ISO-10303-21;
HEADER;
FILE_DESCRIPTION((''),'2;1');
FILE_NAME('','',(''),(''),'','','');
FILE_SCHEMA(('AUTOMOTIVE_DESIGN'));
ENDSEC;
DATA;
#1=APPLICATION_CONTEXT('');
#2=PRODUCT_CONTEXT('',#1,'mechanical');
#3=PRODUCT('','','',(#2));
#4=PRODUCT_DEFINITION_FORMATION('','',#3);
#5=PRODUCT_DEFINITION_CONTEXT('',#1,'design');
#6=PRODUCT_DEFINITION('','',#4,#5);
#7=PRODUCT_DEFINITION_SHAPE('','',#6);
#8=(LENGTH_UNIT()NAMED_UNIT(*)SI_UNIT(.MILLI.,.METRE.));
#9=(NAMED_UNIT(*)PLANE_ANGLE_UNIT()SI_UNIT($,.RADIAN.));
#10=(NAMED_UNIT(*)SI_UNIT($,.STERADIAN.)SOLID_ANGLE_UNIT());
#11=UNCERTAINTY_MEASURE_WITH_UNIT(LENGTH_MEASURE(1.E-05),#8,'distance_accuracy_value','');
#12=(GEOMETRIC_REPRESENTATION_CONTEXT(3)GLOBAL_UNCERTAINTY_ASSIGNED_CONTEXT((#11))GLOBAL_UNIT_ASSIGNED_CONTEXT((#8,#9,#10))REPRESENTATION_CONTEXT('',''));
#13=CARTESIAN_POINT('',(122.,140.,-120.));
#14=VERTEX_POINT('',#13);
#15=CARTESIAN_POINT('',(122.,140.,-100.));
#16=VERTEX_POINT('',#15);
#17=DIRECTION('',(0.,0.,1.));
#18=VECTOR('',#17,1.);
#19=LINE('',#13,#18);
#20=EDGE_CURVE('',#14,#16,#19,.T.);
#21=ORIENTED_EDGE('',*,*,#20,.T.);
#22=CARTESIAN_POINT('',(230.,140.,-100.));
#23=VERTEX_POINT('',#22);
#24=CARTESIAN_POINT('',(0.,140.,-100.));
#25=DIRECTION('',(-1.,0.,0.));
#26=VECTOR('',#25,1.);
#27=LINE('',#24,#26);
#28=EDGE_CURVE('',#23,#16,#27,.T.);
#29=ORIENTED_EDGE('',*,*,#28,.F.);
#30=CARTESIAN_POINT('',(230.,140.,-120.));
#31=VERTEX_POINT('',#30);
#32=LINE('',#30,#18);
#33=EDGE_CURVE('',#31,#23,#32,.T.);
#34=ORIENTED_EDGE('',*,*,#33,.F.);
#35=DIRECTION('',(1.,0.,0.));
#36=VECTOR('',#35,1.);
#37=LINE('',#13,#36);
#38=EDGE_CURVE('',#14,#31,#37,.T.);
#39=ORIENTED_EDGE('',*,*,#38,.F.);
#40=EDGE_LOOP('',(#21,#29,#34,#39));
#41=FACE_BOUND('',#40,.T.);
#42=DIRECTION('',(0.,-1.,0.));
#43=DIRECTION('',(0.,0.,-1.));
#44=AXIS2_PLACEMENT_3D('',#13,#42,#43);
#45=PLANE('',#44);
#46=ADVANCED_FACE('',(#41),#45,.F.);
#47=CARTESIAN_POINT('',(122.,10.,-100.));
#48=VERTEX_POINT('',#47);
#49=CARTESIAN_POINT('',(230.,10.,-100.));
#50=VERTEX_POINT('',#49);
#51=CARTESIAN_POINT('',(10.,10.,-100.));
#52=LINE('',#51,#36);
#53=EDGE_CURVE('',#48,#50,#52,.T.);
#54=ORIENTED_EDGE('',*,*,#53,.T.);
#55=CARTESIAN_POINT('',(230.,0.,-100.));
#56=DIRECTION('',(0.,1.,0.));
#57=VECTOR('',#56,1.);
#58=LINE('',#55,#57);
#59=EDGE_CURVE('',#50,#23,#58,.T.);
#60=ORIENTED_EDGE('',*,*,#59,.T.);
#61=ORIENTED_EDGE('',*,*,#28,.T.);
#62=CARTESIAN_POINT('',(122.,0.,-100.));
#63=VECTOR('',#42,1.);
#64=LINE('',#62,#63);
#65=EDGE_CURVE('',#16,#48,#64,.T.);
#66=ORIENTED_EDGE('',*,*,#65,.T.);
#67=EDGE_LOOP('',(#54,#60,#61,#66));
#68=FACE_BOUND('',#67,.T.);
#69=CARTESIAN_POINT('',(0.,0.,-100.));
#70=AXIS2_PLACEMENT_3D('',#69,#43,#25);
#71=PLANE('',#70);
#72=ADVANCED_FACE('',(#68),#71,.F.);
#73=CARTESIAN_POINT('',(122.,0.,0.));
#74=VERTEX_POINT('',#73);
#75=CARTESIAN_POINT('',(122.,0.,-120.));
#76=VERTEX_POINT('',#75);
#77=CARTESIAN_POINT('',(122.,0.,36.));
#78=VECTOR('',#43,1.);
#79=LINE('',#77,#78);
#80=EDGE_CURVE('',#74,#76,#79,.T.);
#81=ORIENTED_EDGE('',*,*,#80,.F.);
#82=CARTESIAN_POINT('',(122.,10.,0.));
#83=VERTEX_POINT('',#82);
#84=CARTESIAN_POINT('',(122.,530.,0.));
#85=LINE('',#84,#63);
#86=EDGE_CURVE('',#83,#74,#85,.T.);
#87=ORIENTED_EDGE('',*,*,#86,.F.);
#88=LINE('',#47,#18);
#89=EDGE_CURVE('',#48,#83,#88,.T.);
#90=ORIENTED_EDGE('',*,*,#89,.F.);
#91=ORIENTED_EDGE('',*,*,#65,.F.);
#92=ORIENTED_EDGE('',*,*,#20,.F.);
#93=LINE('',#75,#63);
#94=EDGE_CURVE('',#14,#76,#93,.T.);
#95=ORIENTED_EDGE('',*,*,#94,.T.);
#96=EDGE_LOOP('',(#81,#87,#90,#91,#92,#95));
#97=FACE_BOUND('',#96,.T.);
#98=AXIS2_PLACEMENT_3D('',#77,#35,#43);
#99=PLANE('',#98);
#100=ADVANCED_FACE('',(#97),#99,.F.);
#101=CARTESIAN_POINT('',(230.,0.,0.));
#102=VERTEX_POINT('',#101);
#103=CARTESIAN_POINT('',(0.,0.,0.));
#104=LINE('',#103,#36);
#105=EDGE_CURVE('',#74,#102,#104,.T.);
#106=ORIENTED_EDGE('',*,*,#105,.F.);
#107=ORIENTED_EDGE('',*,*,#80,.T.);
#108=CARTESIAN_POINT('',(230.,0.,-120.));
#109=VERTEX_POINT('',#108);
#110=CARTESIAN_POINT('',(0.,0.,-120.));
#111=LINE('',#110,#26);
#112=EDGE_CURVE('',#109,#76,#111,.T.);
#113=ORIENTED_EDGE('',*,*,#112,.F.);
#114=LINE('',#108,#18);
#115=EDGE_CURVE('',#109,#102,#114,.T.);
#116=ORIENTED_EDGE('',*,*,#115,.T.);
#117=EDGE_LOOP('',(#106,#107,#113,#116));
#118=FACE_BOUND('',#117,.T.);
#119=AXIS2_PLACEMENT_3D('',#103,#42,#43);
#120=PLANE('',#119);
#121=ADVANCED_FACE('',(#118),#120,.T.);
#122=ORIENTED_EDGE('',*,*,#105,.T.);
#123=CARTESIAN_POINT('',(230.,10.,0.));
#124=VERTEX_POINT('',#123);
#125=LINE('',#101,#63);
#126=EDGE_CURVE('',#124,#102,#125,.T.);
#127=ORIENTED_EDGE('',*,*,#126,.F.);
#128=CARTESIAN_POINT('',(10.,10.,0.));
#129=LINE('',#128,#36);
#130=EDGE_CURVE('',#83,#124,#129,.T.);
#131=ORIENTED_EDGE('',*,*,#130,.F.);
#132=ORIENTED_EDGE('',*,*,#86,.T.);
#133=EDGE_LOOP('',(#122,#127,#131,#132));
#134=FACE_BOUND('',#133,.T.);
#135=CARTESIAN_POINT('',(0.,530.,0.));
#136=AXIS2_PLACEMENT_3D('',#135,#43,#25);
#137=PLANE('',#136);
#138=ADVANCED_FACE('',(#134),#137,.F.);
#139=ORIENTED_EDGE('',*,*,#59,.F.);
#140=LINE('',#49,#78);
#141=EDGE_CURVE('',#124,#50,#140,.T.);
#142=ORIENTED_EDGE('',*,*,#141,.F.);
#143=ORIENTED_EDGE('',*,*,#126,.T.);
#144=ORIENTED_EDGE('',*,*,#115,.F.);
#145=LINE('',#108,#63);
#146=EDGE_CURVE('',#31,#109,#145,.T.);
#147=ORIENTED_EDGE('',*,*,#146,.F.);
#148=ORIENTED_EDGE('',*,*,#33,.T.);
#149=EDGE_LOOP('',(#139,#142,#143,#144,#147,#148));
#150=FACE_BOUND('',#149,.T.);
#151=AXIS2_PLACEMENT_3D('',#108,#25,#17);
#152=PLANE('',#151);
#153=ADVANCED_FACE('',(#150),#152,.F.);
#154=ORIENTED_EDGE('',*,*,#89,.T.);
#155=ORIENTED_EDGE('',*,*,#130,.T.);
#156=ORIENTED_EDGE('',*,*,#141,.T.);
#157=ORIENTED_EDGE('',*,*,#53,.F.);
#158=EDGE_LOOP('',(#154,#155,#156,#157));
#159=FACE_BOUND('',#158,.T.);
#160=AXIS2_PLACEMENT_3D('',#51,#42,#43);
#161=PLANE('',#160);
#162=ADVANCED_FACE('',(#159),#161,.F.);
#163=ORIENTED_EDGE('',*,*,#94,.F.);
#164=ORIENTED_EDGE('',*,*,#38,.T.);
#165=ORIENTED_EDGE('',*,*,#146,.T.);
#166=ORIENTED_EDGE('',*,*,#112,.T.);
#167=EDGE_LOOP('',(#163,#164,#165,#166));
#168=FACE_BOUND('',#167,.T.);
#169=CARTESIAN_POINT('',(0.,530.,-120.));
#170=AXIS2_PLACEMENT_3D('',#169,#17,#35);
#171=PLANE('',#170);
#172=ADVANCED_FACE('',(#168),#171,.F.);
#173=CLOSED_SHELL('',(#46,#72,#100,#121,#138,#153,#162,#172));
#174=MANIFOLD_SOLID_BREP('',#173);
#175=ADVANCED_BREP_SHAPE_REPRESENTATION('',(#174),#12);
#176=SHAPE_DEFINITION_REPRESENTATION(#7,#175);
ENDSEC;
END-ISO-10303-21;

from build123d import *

# Parameters (mm, degrees)
SKETCH1_W                      = 670
SKETCH1_H                      = 120
BOSS_EXTRUDE1_DEPTH            = 530
SKETCH2_W                      = 100
SKETCH2_H                      = 200
SKETCH2_W_2                    = 650
SKETCH2_H_2                    = 250
CUT_EXTRUDE1_DEPTH             = 100
SKETCH3_R                      = 50
CUT_EXTRUDE2_DEPTH             = 260
F_12_0_12_DIAMETER_HOLE2_D     = 12
F_12_0_12_DIAMETER_HOLE2_DEPTH = 30
F_12_0_12_DIAMETER_HOLE2_TIP   = 3.605163714
SKETCH8_W                      = 650
SKETCH8_H                      = 50
BOSS_EXTRUDE2_DEPTH            = 5
SKETCH9_W                      = 10
SKETCH9_H                      = 250
CUT_EXTRUDE3_DEPTH             = 717
CUT_EXTRUDE4_DEPTH             = 5
SKETCH11_W                     = 10
SKETCH11_H                     = 100
BOSS_EXTRUDE3_DEPTH            = 78
BOSS_EXTRUDE3_2_DEPTH          = 78
BOSS_EXTRUDE3_3_DEPTH          = 78
SKETCH12_W                     = 20
SKETCH12_H                     = 30
CUT_EXTRUDE5_DEPTH             = 80
SKETCH15_W                     = 30
SKETCH15_H                     = 23.536156656
SKETCH15_H_2                   = 28.986603691
CUT_EXTRUDE7_DEPTH             = 35
SHELL1_T                       = -3
SKETCH16_W                     = 14
SKETCH16_H                     = 14
CUT_EXTRUDE8_DEPTH             = 35
SKETCH17_W                     = 5.729882812
SKETCH17_H                     = 17.428393554
SKETCH17_W_2                   = 13.369726562
SKETCH17_H_2                   = 3.342431641
BOSS_EXTRUDE4_DEPTH            = 5
CUT_EXTRUDE10_DEPTH            = 863.670273187
CUT_EXTRUDE10_DEPTH_BACK       = 863.670273187
SKETCH18_W                     = 670
SKETCH18_H                     = 250
CUT_EXTRUDE12_DEPTH            = 734.007503372
CUT_EXTRUDE12_DEPTH_BACK       = 734.007503372
SKETCH19_W                     = 440
SKETCH19_H                     = 280
SKETCH20_W                     = 210.918945895
SKETCH20_H                     = 296.400973443
CUT_EXTRUDE14_DEPTH            = 156
CUT_EXTRUDE15_DEPTH            = 376.898922584
CUT_EXTRUDE15_DEPTH_BACK       = 376.898922584
SKETCH21_W                     = 108
SKETCH21_H                     = 140


with BuildPart() as part:
    # Sketch1 → Boss-Extrude1 (new body)
    with BuildSketch(Plane(origin=(0, 0, 0), x_dir=(1, 0, 0), z_dir=(0, 1, 0))):
        with Locations((335, 60)):
            Rectangle(SKETCH1_W, SKETCH1_H)
    extrude(amount=BOSS_EXTRUDE1_DEPTH)

    # Sketch2 → Cut-Extrude1 (cut)
    with BuildSketch(Plane.XY):
        with Locations((60, 380)):
            Rectangle(SKETCH2_W, SKETCH2_H)
        with Locations((170, 380)):
            Rectangle(SKETCH2_W, SKETCH2_H)
        with Locations((280, 380)):
            Rectangle(SKETCH2_W, SKETCH2_H)
        with Locations((390, 380)):
            Rectangle(SKETCH2_W, SKETCH2_H)
        with Locations((500, 380)):
            Rectangle(SKETCH2_W, SKETCH2_H)
        with Locations((610, 380)):
            Rectangle(SKETCH2_W, SKETCH2_H)
        with Locations((335, 135)):
            Rectangle(SKETCH2_W_2, SKETCH2_H_2)
    extrude(amount=-CUT_EXTRUDE1_DEPTH, mode=Mode.SUBTRACT)

    # Sketch3 → Cut-Extrude2 (cut)
    with BuildSketch(Plane(origin=(0, 530, 0), x_dir=(1, 0, 0), z_dir=(0, 1, 0))):
        with Locations(Location((60, 60, 0), (0, 0, 270))):
            Circle(SKETCH3_R)
        with Locations(Location((170, 60, 0), (0, 0, 270))):
            Circle(SKETCH3_R)
        with Locations(Location((280, 60, 0), (0, 0, 270))):
            Circle(SKETCH3_R)
        with Locations(Location((390, 60, 0), (0, 0, 270))):
            Circle(SKETCH3_R)
        with Locations(Location((500, 60, 0), (0, 0, 270))):
            Circle(SKETCH3_R)
        with Locations(Location((610, 60, 0), (0, 0, 270))):
            Circle(SKETCH3_R)
    extrude(amount=-CUT_EXTRUDE2_DEPTH, mode=Mode.SUBTRACT)

    # Ø12.0 (12) Diameter Hole2
    with Locations(Plane(origin=(59.704642413, 270, -102.411697903), x_dir=(0, 0, 1), z_dir=(0, 1, 0))):
        with Locations((0, 0), (-0.195888006, 111.8520513), (0.014838595, 221.167624818), (-0.341843303, 331.364008353), (0.657723149, 441.008646429), (1.288998006, 549.811854685)):
            Hole(F_12_0_12_DIAMETER_HOLE2_D / 2, depth=F_12_0_12_DIAMETER_HOLE2_DEPTH)
            with Locations((0, 0, -(F_12_0_12_DIAMETER_HOLE2_DEPTH + F_12_0_12_DIAMETER_HOLE2_TIP / 2))):  # 118° drill point
                Cone(0, F_12_0_12_DIAMETER_HOLE2_D / 2, F_12_0_12_DIAMETER_HOLE2_TIP, mode=Mode.SUBTRACT)

    # Sketch8 → Boss-Extrude2 (add)
    with BuildSketch(Plane.XY):
        with Locations((335, 305)):
            Rectangle(SKETCH8_W, SKETCH8_H)
    extrude(amount=-BOSS_EXTRUDE2_DEPTH)

    # Sketch9 → Cut-Extrude3 (cut)
    with BuildSketch(Plane(origin=(670, 0, 0), x_dir=(0, 0, -1), z_dir=(1, 0, 0))):
        with Locations((15, 135)):
            Rectangle(SKETCH9_W, SKETCH9_H)
    extrude(amount=-CUT_EXTRUDE3_DEPTH, mode=Mode.SUBTRACT)

    # Sketch10 → Cut-Extrude4 (cut)
    with BuildSketch(Plane(origin=(0, 10, 0), x_dir=(1, 0, 0), z_dir=(0, 1, 0))):
        Polygon((365, 61.943560596), (350, 87.924322709), (320, 87.924322709), (305, 61.943560596), (320, 35.962798482), (350, 35.962798482), align=None)
    extrude(amount=-CUT_EXTRUDE4_DEPTH, mode=Mode.SUBTRACT)

    # Sketch12 → Cut-Extrude5 (cut)
    with BuildSketch(Plane.XY.offset(-100)):
        with Locations((85.198613037, 245)):
            Rectangle(SKETCH12_W, SKETCH12_H)
        with Locations((195.198613037, 245)):
            Rectangle(SKETCH12_W, SKETCH12_H)
        with Locations((305.198613037, 245)):
            Rectangle(SKETCH12_W, SKETCH12_H)
        with Locations((415.198613037, 245)):
            Rectangle(SKETCH12_W, SKETCH12_H)
        with Locations((525.198613037, 245)):
            Rectangle(SKETCH12_W, SKETCH12_H)
        with Locations((635.198613037, 245)):
            Rectangle(SKETCH12_W, SKETCH12_H)
    extrude(amount=-CUT_EXTRUDE5_DEPTH, mode=Mode.SUBTRACT)

    # Sketch17 → Boss-Extrude4 (add)
    # profile 1 of 9: a face of its own
    with BuildSketch(Plane.XY):
        with BuildLine():
            Line((527.508830928, 289.835452458), (527.508830928, 307.263846012))
            Line((527.508830928, 307.263846012), (534.861434459, 307.263846012))
            add(Edge.make_bspline(
                [(534.861434459, 307.263846012), (535.181337774, 307.258256848), (535.803061116, 307.24739446), (536.703508491, 307.139069344), (537.544992916, 306.975202489), (538.325061607, 306.737496792), (539.040841948, 306.426020155), (539.698044515, 306.051894954), (540.290333057, 305.605079277), (540.822348212, 305.090232636), (541.284521701, 304.502523111), (541.692171296, 303.852565801), (542.030284458, 303.129762281), (542.309377095, 302.341316546), (542.5243908, 301.484161689), (542.679660381, 300.560045938), (542.773357357, 299.567500804), (542.783368073, 298.883107022), (542.788518428, 298.530997273)],
                knots=[0, 0, 0, 0, 1.135059408, 2.20595691, 3.214417064, 4.174978569, 5.094187092, 5.980001006, 6.853065862, 7.720814779, 8.600404634, 9.50058483, 10.438414914, 11.426825708, 12.465239141, 13.571113463, 14.750376389, 16, 16, 16, 16], degree=3))
            add(Edge.make_bspline(
                [(542.788518428, 298.530997273), (542.781740751, 298.180151665), (542.768592871, 297.499553336), (542.676885992, 296.511518461), (542.516733301, 295.591080531), (542.296748778, 294.736450427), (542.003051046, 293.953120444), (541.654236167, 293.233205539), (541.233025793, 292.585291498), (540.753136904, 292.000029304), (540.204772188, 291.484681411), (539.587651059, 291.044279297), (538.910779309, 290.668464036), (538.169670382, 290.361903209), (537.364073889, 290.124869172), (536.495133477, 289.954199984), (535.562644449, 289.853487388), (534.920131033, 289.841584621), (534.58911581, 289.835452458)],
                knots=[0, 0, 0, 0, 1.228418252, 2.382983832, 3.470276728, 4.496757894, 5.468023682, 6.394867725, 7.292157164, 8.167372942, 9.039072913, 9.918728341, 10.815246345, 11.744296628, 12.720973084, 13.750736166, 14.841206188, 16, 16, 16, 16], degree=3))
            Line((534.58911581, 289.835452458), (527.508830928, 289.835452458))
        make_face()
        with BuildLine():
            Line((533.238713741, 291.745413395), (534.048208904, 291.745413395))
            add(Edge.make_bspline(
                [(534.048208904, 291.745413395), (534.172894012, 291.749291978), (534.413033311, 291.756761998), (534.758676231, 291.825976613), (535.075745017, 291.938271137), (535.365749176, 292.094802589), (535.623404602, 292.300450923), (535.848862806, 292.551404902), (536.04776914, 292.844737637), (536.217685755, 293.190205032), (536.364284647, 293.596533622), (536.481764702, 294.076367921), (536.592118304, 294.630928744), (536.673672739, 295.265507643), (536.740044562, 295.978448886), (536.788346679, 296.768428292), (536.812018936, 297.636801208), (536.817188964, 298.241258393), (536.819890499, 298.55711002)],
                knots=[0, 0, 0, 0, 0.728710832, 1.403472396, 2.052289494, 2.690292559, 3.321919393, 3.970736491, 4.656696891, 5.388631723, 6.217040872, 7.17856157, 8.275589967, 9.523440737, 10.918935818, 12.463926104, 14.152268318, 16, 16, 16, 16], degree=3))
            add(Edge.make_bspline(
                [(536.819890499, 298.55711002), (536.8171426, 298.871715251), (536.811863063, 299.476166083), (536.7886758, 300.343334385), (536.739579947, 301.133216935), (536.674703848, 301.843934916), (536.589660404, 302.476324031), (536.488366458, 303.031681737), (536.362441588, 303.507627045), (536.222158727, 303.914921549), (536.050140993, 304.256514038), (535.858357073, 304.554097881), (535.62547107, 304.79746827), (535.36991257, 305.004888479), (535.079348843, 305.160875844), (534.761320266, 305.273944358), (534.414185903, 305.34216807), (534.172870641, 305.349893944), (534.048208904, 305.353885075)],
                knots=[0, 0, 0, 0, 1.842836665, 3.540640921, 5.080358154, 6.47765669, 7.719902824, 8.816971715, 9.781579111, 10.601733135, 11.334613876, 12.017393917, 12.666641099, 13.29908421, 13.937911793, 14.587567384, 15.270347425, 16, 16, 16, 16], degree=3))
            Line((534.048208904, 305.353885075), (533.238713741, 305.353885075))
            Line((533.238713741, 305.353885075), (533.238713741, 291.745413395))
        make_face(mode=Mode.SUBTRACT)
    # profile 2 of 9: a face of its own
    with BuildSketch(Plane.XY):
        with Locations((547.563420772, 298.549649235)):
            Rectangle(SKETCH17_W, SKETCH17_H)
    # profile 3 of 9: a face of its own
    with BuildSketch(Plane.XY):
        Polygon((564.514324092, 307.263846012), (564.514324092, 305.115139958), (558.545696163, 305.115139958), (558.545696163, 299.862747379), (563.559343624, 299.862747379), (563.559343624, 297.714041325), (558.545696163, 297.714041325), (558.545696163, 289.835452458), (552.81581335, 289.835452458), (552.81581335, 307.263846012), align=None)
    # profile 4 of 9: a face of its own
    with BuildSketch(Plane.XY):
        Polygon((577.645305538, 307.263846012), (577.645305538, 305.115139958), (571.676677608, 305.115139958), (571.676677608, 299.862747379), (576.690325069, 299.862747379), (576.690325069, 297.714041325), (571.676677608, 297.714041325), (571.676677608, 289.835452458), (565.946794795, 289.835452458), (565.946794795, 307.263846012), align=None)
    # profile 5 of 9: a face of its own
    with BuildSketch(Plane.XY):
        with Locations((584.330168819, 287.448001286)):
            Rectangle(SKETCH17_W_2, SKETCH17_H_2)
    # profile 6 of 9: a face of its own
    with BuildSketch(Plane.XY):
        with BuildLine():
            Line((605.578484249, 307.263846012), (605.578484249, 295.602639195))
            add(Edge.make_bspline(
                [(605.578484249, 295.602639195), (605.574209777, 295.35989389), (605.565919345, 294.889083964), (605.480877158, 294.20653885), (605.349958188, 293.569747554), (605.15926554, 292.978838165), (604.911867049, 292.436847071), (604.616163877, 291.936663973), (604.260702644, 291.487723021), (603.847299908, 291.08966617), (603.386881991, 290.731670113), (602.867295001, 290.425440037), (602.293741958, 290.168488385), (601.66690529, 289.960990771), (600.988052682, 289.797299786), (600.254912883, 289.679078851), (599.467035781, 289.60781007), (598.923618241, 289.60048219), (598.643684673, 289.59670734)],
                knots=[0, 0, 0, 0, 1.108173197, 2.149326602, 3.136215123, 4.073726706, 4.978516626, 5.852185058, 6.72141202, 7.584905625, 8.467554395, 9.379216169, 10.332422268, 11.332766067, 12.390653242, 13.518530507, 14.721707419, 16, 16, 16, 16], degree=3))
            add(Edge.make_bspline(
                [(598.643684673, 289.59670734), (598.373688491, 289.600411437), (597.851346557, 289.607577482), (597.093280473, 289.679448684), (596.387523889, 289.797736542), (595.733050135, 289.960122315), (595.130189942, 290.169220301), (594.579048171, 290.42623041), (594.078350789, 290.732835498), (593.633858028, 291.090104794), (593.234289459, 291.486851767), (592.899913678, 291.940746827), (592.609043638, 292.435866034), (592.375223767, 292.980322997), (592.191754821, 293.570441519), (592.063541006, 294.20666921), (591.983676196, 294.889343196), (591.974661767, 295.359932437), (591.970012569, 295.602639195)],
                knots=[0, 0, 0, 0, 1.258901956, 2.435505865, 3.547148904, 4.59359074, 5.576649289, 6.5183682, 7.424469602, 8.307507093, 9.172751023, 10.042627298, 10.928839176, 11.845659241, 12.799442865, 13.80597989, 14.868432463, 16, 16, 16, 16], degree=3))
            Line((591.970012569, 295.602639195), (591.970012569, 307.263846012))
            Line((591.970012569, 307.263846012), (597.699895381, 307.263846012))
            Line((597.699895381, 307.263846012), (597.699895381, 295.457153889))
            add(Edge.make_bspline(
                [(597.699895381, 295.457153889), (597.700816195, 295.287996189), (597.702584578, 294.963135903), (597.729908723, 294.499051493), (597.768241004, 294.079064133), (597.828226169, 293.705517832), (597.90066041, 293.377063412), (597.989882091, 293.09281535), (598.094998068, 292.852496478), (598.225239063, 292.654232043), (598.380826623, 292.495135011), (598.55368342, 292.353231761), (598.757556996, 292.238543846), (598.987648905, 292.146224908), (599.243380948, 292.070549638), (599.526120553, 292.020376099), (599.83553351, 291.990763905), (600.049971942, 291.986424568), (600.161954402, 291.984158512)],
                knots=[0, 0, 0, 0, 1.622370975, 3.115695595, 4.458049099, 5.666011203, 6.742434742, 7.681714947, 8.519814998, 9.250928664, 9.942747364, 10.646898194, 11.389596108, 12.175933929, 13.021386247, 13.943159715, 14.925891993, 16, 16, 16, 16], degree=3))
            add(Edge.make_bspline(
                [(600.161954402, 291.984158512), (600.283927219, 291.987190593), (600.521124756, 291.993087005), (600.86597014, 292.03390861), (601.187714881, 292.103380086), (601.484890424, 292.205377303), (601.758665297, 292.332852529), (602.012761516, 292.484567923), (602.236391413, 292.674631152), (602.439076761, 292.888441291), (602.620738276, 293.128529789), (602.771757722, 293.399928575), (602.905501548, 293.697121508), (603.005823683, 294.025060118), (603.089837826, 294.379999499), (603.146989706, 294.763086929), (603.186210275, 295.174074524), (603.189394751, 295.457053988), (603.191033077, 295.602639195)],
                knots=[0, 0, 0, 0, 1.083870311, 2.107775948, 3.08105344, 4.003637981, 4.893545291, 5.761570557, 6.624657808, 7.49233129, 8.376387281, 9.291996285, 10.246843261, 11.267344133, 12.334180325, 13.486053461, 14.706643157, 16, 16, 16, 16], degree=3))
            Line((603.191033077, 295.602639195), (603.191033077, 307.263846012))
            Line((603.191033077, 307.263846012), (605.578484249, 307.263846012))
        make_face()
    # profile 7 of 9: a face of its own
    with BuildSketch(Plane.XY):
        with BuildLine():
            Line((619.731593227, 302.015183827), (616.739818477, 301.526502415))
            add(Edge.make_bspline(
                [(616.739818477, 301.526502415), (616.748849224, 301.670726223), (616.765660669, 301.939210177), (616.78429066, 302.312269209), (616.796668381, 302.625642376), (616.798628236, 302.814722915), (616.799504756, 302.899286839)],
                knots=[0, 0, 0, 0, 1.261802504, 2.348944521, 3.261585937, 4, 4, 4, 4], degree=3))
            add(Edge.make_bspline(
                [(616.799504756, 302.899286839), (616.798306068, 303.007660677), (616.795968139, 303.219033721), (616.750451916, 303.523894877), (616.694806916, 303.811547356), (616.604352699, 304.076787391), (616.488181329, 304.320314265), (616.348943917, 304.543955606), (616.184187178, 304.745078709), (615.995833421, 304.928129987), (615.778009957, 305.083200131), (615.536269472, 305.218702836), (615.269765326, 305.333844758), (614.978065514, 305.431346685), (614.660683072, 305.504624438), (614.319025281, 305.556776695), (613.952471696, 305.585673441), (613.699597795, 305.590260771), (613.568984889, 305.592630192)],
                knots=[0, 0, 0, 0, 1.079280541, 2.105035848, 3.067950317, 3.99715044, 4.889989748, 5.753421302, 6.617030865, 7.476358039, 8.364190572, 9.274590025, 10.235106994, 11.254473582, 12.337095886, 13.478601727, 14.697662529, 16, 16, 16, 16], degree=3))
            add(Edge.make_bspline(
                [(613.568984889, 305.592630192), (613.391954632, 305.58912286), (613.059112606, 305.582528579), (612.595688488, 305.495339748), (612.198743126, 305.361419257), (611.87165349, 305.163811893), (611.613188167, 304.909795747), (611.433841092, 304.593316589), (611.323009072, 304.224665915), (611.313400221, 303.959558324), (611.308367061, 303.820693775)],
                knots=[0, 0, 0, 0, 1.294917039, 2.43462794, 3.440028966, 4.347597256, 5.210608309, 6.06356377, 6.985685997, 8, 8, 8, 8], degree=3))
            add(Edge.make_bspline(
                [(611.308367061, 303.820693775), (611.317562032, 303.705133219), (611.336106628, 303.472068433), (611.47315858, 303.132808312), (611.695999602, 302.811560885), (612.009295906, 302.510664216), (612.404107796, 302.221967273), (612.884407504, 301.948533431), (613.450813789, 301.688189695), (613.862519081, 301.536023727), (614.080048656, 301.455624958)],
                knots=[0, 0, 0, 0, 0.716839541, 1.445735977, 2.240793036, 3.131329288, 4.131129903, 5.273471266, 6.559404876, 8, 8, 8, 8], degree=3))
            add(Edge.make_bspline(
                [(614.080048656, 301.455624958), (614.335934702, 301.364918412), (614.834564244, 301.188164095), (615.547657928, 300.88707802), (616.213068388, 300.5749594), (616.829579094, 300.246613346), (617.397833174, 299.90520698), (617.914851624, 299.544556457), (618.386199073, 299.173962102), (618.807001026, 298.783874588), (619.177995113, 298.378100064), (619.4958685, 297.952745357), (619.771807525, 297.51723103), (619.991113975, 297.061458502), (620.169645242, 296.594624218), (620.292698657, 296.11024444), (620.364288243, 295.609761088), (620.37516617, 295.270864226), (620.380681514, 295.099036213)],
                knots=[0, 0, 0, 0, 1.359488612, 2.649152603, 3.874964776, 5.039588756, 6.146130126, 7.193090393, 8.194917302, 9.146793662, 10.063845301, 10.944476293, 11.803344532, 12.641736646, 13.473440096, 14.302714936, 15.139439897, 16, 16, 16, 16], degree=3))
            add(Edge.make_bspline(
                [(620.380681514, 295.099036213), (620.374476075, 294.902306495), (620.362285176, 294.515820995), (620.280160209, 293.948630617), (620.138011896, 293.409496554), (619.938489338, 292.895972278), (619.681049879, 292.411946655), (619.366518754, 291.954381076), (618.996510229, 291.525099427), (618.5710008, 291.128381035), (618.102222518, 290.765302239), (617.587803957, 290.450854345), (617.034458515, 290.187092261), (616.444107988, 289.968993032), (615.81453624, 289.801373099), (615.145337453, 289.685291013), (614.438790193, 289.606619894), (613.954683001, 289.600062276), (613.70700941, 289.59670734)],
                knots=[0, 0, 0, 0, 0.972121714, 1.909782367, 2.824924061, 3.721832975, 4.62620438, 5.527836938, 6.46026819, 7.421000932, 8.398101015, 9.385579713, 10.394244048, 11.422703992, 12.491421888, 13.608778581, 14.776629625, 16, 16, 16, 16], degree=3))
            add(Edge.make_bspline(
                [(613.70700941, 289.59670734), (613.445745367, 289.599650312), (612.939893069, 289.605348413), (612.207608113, 289.66709241), (611.525297432, 289.760984454), (610.893395078, 289.899706116), (610.309273131, 290.072394336), (609.776099392, 290.288320955), (609.295310255, 290.547303481), (608.863217672, 290.843007892), (608.478306623, 291.175775461), (608.148120946, 291.551766865), (607.86942369, 291.967163224), (607.639947144, 292.421521488), (607.466477665, 292.917583541), (607.339164663, 293.449829748), (607.264537999, 294.021332449), (607.254747521, 294.414908557), (607.249700069, 294.617815586)],
                knots=[0, 0, 0, 0, 1.342201143, 2.598733168, 3.773451092, 4.878874364, 5.91991243, 6.900006476, 7.829142054, 8.72062616, 9.585588575, 10.436728592, 11.283829734, 12.149664931, 13.044964919, 13.977937424, 14.957531465, 16, 16, 16, 16], degree=3))
            add(Edge.make_bspline(
                [(607.249700069, 294.617815586), (607.250803815, 294.692425759), (607.253213998, 294.855347393), (607.260452266, 295.122772538), (607.275636683, 295.433682216), (607.29037174, 295.656130545), (607.298195171, 295.774237248)],
                knots=[0, 0, 0, 0, 0.773500207, 1.689044709, 2.77302154, 4, 4, 4, 4], degree=3))
            Line((607.298195171, 295.774237248), (610.36457777, 296.337526509))
            add(Edge.make_bspline(
                [(610.36457777, 296.337526509), (610.326952988, 296.136337493), (610.255606535, 295.754830366), (610.178678473, 295.21219969), (610.124206629, 294.733311493), (610.11767002, 294.435147371), (610.114641475, 294.297001835)],
                knots=[0, 0, 0, 0, 1.192988372, 2.262218769, 3.194850416, 4, 4, 4, 4], degree=3))
            add(Edge.make_bspline(
                [(610.114641475, 294.297001835), (610.116191817, 294.183708768), (610.119182568, 293.965156219), (610.159053378, 293.648552813), (610.215988606, 293.352999663), (610.302906772, 293.079707227), (610.411206928, 292.826307836), (610.544682453, 292.59538211), (610.704385489, 292.386485019), (610.887496571, 292.200099922), (611.094689168, 292.033628705), (611.327456494, 291.892756696), (611.58347653, 291.771733922), (611.864681562, 291.677479524), (612.167961721, 291.596080628), (612.497219749, 291.548235723), (612.849461228, 291.512043782), (613.092629543, 291.508500084), (613.218327999, 291.506668278)],
                knots=[0, 0, 0, 0, 1.135776692, 2.191015738, 3.19649269, 4.151244236, 5.061952528, 5.956281389, 6.819534407, 7.692823504, 8.571441916, 9.478554956, 10.416037156, 11.406231466, 12.450054172, 13.561596327, 14.739541482, 16, 16, 16, 16], degree=3))
            add(Edge.make_bspline(
                [(613.218327999, 291.506668278), (613.423996012, 291.510791273), (613.810619321, 291.518541853), (614.349272542, 291.616708407), (614.810575885, 291.768742445), (615.189785268, 291.991387532), (615.490778961, 292.278756613), (615.698005174, 292.637320004), (615.824813318, 293.05638326), (615.837728413, 293.355975238), (615.844524288, 293.513619419)],
                knots=[0, 0, 0, 0, 1.308765556, 2.460272085, 3.475015317, 4.388076298, 5.239673503, 6.095681635, 6.997954785, 8, 8, 8, 8], degree=3))
            add(Edge.make_bspline(
                [(615.844524288, 293.513619419), (615.833808824, 293.638242951), (615.811807312, 293.894126055), (615.644884004, 294.264515838), (615.382382362, 294.620631473), (615.016807277, 294.962984909), (614.551376589, 295.293471235), (613.986957743, 295.616730224), (613.322148235, 295.933112033), (612.83677959, 296.119639164), (612.580430889, 296.21815395)],
                knots=[0, 0, 0, 0, 0.667930748, 1.371427933, 2.146459016, 3.034714139, 4.04893387, 5.207327294, 6.525042705, 8, 8, 8, 8], degree=3))
            add(Edge.make_bspline(
                [(612.580430889, 296.21815395), (612.374354345, 296.29679374), (611.970646869, 296.450850434), (611.394079385, 296.713586304), (610.853066711, 296.987016804), (610.357486361, 297.288235735), (609.896382561, 297.599610528), (609.477036946, 297.932256792), (609.09841673, 298.284556341), (608.758710772, 298.653375077), (608.457302107, 299.038989264), (608.199448649, 299.444659231), (607.977533299, 299.866789834), (607.798609588, 300.308107488), (607.65975715, 300.767821241), (607.559616231, 301.244439392), (607.497905054, 301.739995674), (607.491630423, 302.075933546), (607.488445186, 302.246468159)],
                knots=[0, 0, 0, 0, 1.249558333, 2.447906163, 3.58867143, 4.682264114, 5.731748367, 6.739728761, 7.711906036, 8.659384707, 9.578321416, 10.481344598, 11.379544271, 12.277135726, 13.175418307, 14.097160112, 15.034047388, 16, 16, 16, 16], degree=3))
            add(Edge.make_bspline(
                [(607.488445186, 302.246468159), (607.49282555, 302.439538736), (607.501402184, 302.817565692), (607.587451154, 303.36980586), (607.719291893, 303.894921371), (607.910558542, 304.389343064), (608.156192894, 304.852853762), (608.453187669, 305.288766511), (608.804241719, 305.697593471), (609.213503754, 306.066686531), (609.657214714, 306.407618241), (610.14376173, 306.697651931), (610.658716537, 306.950861947), (611.210636666, 307.148827868), (611.791820619, 307.313252612), (612.408080529, 307.421140415), (613.056315391, 307.490701612), (613.499160755, 307.498567824), (613.725661373, 307.502591129)],
                knots=[0, 0, 0, 0, 1.01033566, 1.978209831, 2.919499157, 3.840961976, 4.746855014, 5.660740114, 6.597989116, 7.56120833, 8.541877795, 9.523498025, 10.522416858, 11.542172371, 12.589598349, 13.681636521, 14.814234488, 16, 16, 16, 16], degree=3))
            add(Edge.make_bspline(
                [(613.725661373, 307.502591129), (613.968269855, 307.498219033), (614.438190994, 307.489750488), (615.120391152, 307.426787419), (615.755073228, 307.319142339), (616.345153155, 307.171557286), (616.887304575, 306.977590666), (617.384933999, 306.742393454), (617.834452216, 306.46201507), (618.236961315, 306.139451502), (618.593086714, 305.773322851), (618.897467704, 305.361641069), (619.158701245, 304.909408454), (619.366684143, 304.412232174), (619.529870326, 303.873247147), (619.649133834, 303.29158184), (619.720420497, 302.667301443), (619.72779778, 302.236712324), (619.731593227, 302.015183827)],
                knots=[0, 0, 0, 0, 1.248314423, 2.417925914, 3.521398822, 4.558068205, 5.543720209, 6.479599284, 7.385061127, 8.263440163, 9.127722873, 10.00561236, 10.891325273, 11.808802823, 12.772251995, 13.784947978, 14.860405143, 16, 16, 16, 16], degree=3))
        make_face()
    # profile 8 of 9: a face of its own
    with BuildSketch(Plane.XY):
        Polygon((633.989153194, 307.263846012), (633.989153194, 305.115139958), (628.020525264, 305.115139958), (628.020525264, 300.340237614), (633.034172725, 300.340237614), (633.034172725, 298.191531559), (628.020525264, 298.191531559), (628.020525264, 291.984158512), (634.944133663, 291.984158512), (634.944133663, 289.835452458), (622.290642452, 289.835452458), (622.290642452, 307.263846012), align=None)
    # profile 9 of 9: a face of its own
    with BuildSketch(Plane.XY):
        with BuildLine():
            Line((636.376604366, 289.835452458), (636.376604366, 307.263846012))
            Line((636.376604366, 307.263846012), (643.990335369, 307.263846012))
            add(Edge.make_bspline(
                [(643.990335369, 307.263846012), (644.237946498, 307.261150834), (644.721600887, 307.25588639), (645.426490561, 307.189203683), (646.094808274, 307.090496236), (646.724915796, 306.949857504), (647.317873659, 306.767252686), (647.871119087, 306.542146), (648.390701058, 306.282329135), (648.864494846, 305.976472528), (649.295093616, 305.642889252), (649.669668547, 305.279483604), (649.990389523, 304.894749072), (650.250664962, 304.483256345), (650.454275633, 304.048690948), (650.59581384, 303.587791605), (650.684089268, 303.104102537), (650.695510601, 302.772834174), (650.701311397, 302.604585835)],
                knots=[0, 0, 0, 0, 1.303269877, 2.545653735, 3.724355284, 4.8584284, 5.941462088, 6.987020715, 8.000098032, 8.995332524, 9.951400474, 10.863507538, 11.737823931, 12.582415999, 13.420128714, 14.25671499, 15.114600608, 16, 16, 16, 16], degree=3))
            add(Edge.make_bspline(
                [(650.701311397, 302.604585835), (650.698282873, 302.472674957), (650.692382063, 302.215658276), (650.651041486, 301.838684287), (650.580643818, 301.480313933), (650.481036683, 301.139915259), (650.347814833, 300.820175594), (650.191279492, 300.517863507), (650.009772227, 300.230553342), (649.788675198, 299.970497982), (649.548268341, 299.722842359), (649.274558803, 299.497116911), (648.974487035, 299.288655528), (648.642526299, 299.104010513), (648.287619671, 298.928055749), (647.899038177, 298.784921972), (647.486819978, 298.644749395), (647.19793098, 298.577036306), (647.049257183, 298.54218845)],
                knots=[0, 0, 0, 0, 1.057156483, 2.059775939, 3.035078039, 3.981068617, 4.897189472, 5.80650904, 6.70770952, 7.613691521, 8.536886357, 9.470937334, 10.45233069, 11.461024139, 12.51295332, 13.623444893, 14.776929983, 16, 16, 16, 16], degree=3))
            add(Edge.make_bspline(
                [(647.049257183, 298.54218845), (647.19164695, 298.499279419), (647.467865022, 298.416041346), (647.856360945, 298.265600017), (648.211652989, 298.111536308), (648.524185739, 297.936781388), (648.807636894, 297.762122504), (649.047122259, 297.564301324), (649.255235567, 297.361673563), (649.425188343, 297.135464734), (649.570253643, 296.882344437), (649.694827156, 296.586596707), (649.815179167, 296.247423665), (649.917667348, 295.859098311), (650.004750555, 295.423699276), (650.088222437, 294.944027189), (650.153853601, 294.416024546), (650.187587341, 294.048412906), (650.2051692, 293.856815525)],
                knots=[0, 0, 0, 0, 1.149282524, 2.229462177, 3.219229774, 4.139917433, 4.995948464, 5.788695735, 6.536448429, 7.236319808, 7.968460079, 8.78645307, 9.713791991, 10.749194692, 11.887975363, 13.146018663, 14.512518948, 16, 16, 16, 16], degree=3))
            add(Edge.make_bspline(
                [(650.2051692, 293.856815525), (650.225980287, 293.627849833), (650.265975604, 293.187817268), (650.348933081, 292.554613589), (650.44386163, 291.974357025), (650.555874504, 291.44528724), (650.681301216, 290.967898855), (650.821280597, 290.540469593), (650.979920039, 290.165788217), (651.10484481, 289.941461656), (651.163880062, 289.835452458)],
                knots=[0, 0, 0, 0, 1.324580516, 2.545615266, 3.678710841, 4.711533017, 5.660403917, 6.521349952, 7.301239649, 8, 8, 8, 8], degree=3))
            Line((651.163880062, 289.835452458), (645.213904094, 289.835452458))
            add(Edge.make_bspline(
                [(645.213904094, 289.835452458), (645.12229736, 290.069847279), (644.935171241, 290.548648246), (644.7595281, 291.319414791), (644.64846922, 292.142514735), (644.635117598, 292.70994511), (644.628232479, 293.002555653)],
                knots=[0, 0, 0, 0, 0.930410518, 1.900560147, 2.917368081, 4, 4, 4, 4], degree=3))
            Line((644.628232479, 293.002555653), (644.605850124, 294.002300831))
            Line((644.605850124, 294.002300831), (644.579737377, 295.266903874))
            add(Edge.make_bspline(
                [(644.579737377, 295.266903874), (644.573694669, 295.477395004), (644.562357007, 295.872330118), (644.469348432, 296.426164013), (644.30178735, 296.894645884), (644.073222546, 297.287223005), (643.766741442, 297.590613479), (643.39104803, 297.804152917), (642.950456912, 297.93396284), (642.634664848, 297.946292392), (642.468335247, 297.952786442)],
                knots=[0, 0, 0, 0, 1.295300309, 2.430314163, 3.439929415, 4.342995669, 5.203512789, 6.060756153, 6.978588463, 8, 8, 8, 8], degree=3))
            Line((642.468335247, 297.952786442), (642.106487178, 297.952786442))
            Line((642.106487178, 297.952786442), (642.106487178, 289.835452458))
            Line((642.106487178, 289.835452458), (636.376604366, 289.835452458))
        make_face()
        with BuildLine():
            Line((642.106487178, 299.862747379), (642.617550945, 299.862747379))
            add(Edge.make_bspline(
                [(642.617550945, 299.862747379), (642.722054451, 299.865172716), (642.925280724, 299.869889229), (643.220054897, 299.898289891), (643.494111408, 299.951809873), (643.749840966, 300.021017819), (643.984372137, 300.114851792), (644.200147241, 300.225818296), (644.391160406, 300.362685327), (644.565327067, 300.516342321), (644.718148635, 300.691986294), (644.850351299, 300.889034217), (644.961199162, 301.106225057), (645.056078491, 301.342818683), (645.125883912, 301.600830857), (645.173262731, 301.879472914), (645.203404658, 302.177423605), (645.207875435, 302.383174491), (645.210173702, 302.488943669)],
                knots=[0, 0, 0, 0, 1.184986479, 2.304423995, 3.352332712, 4.347714965, 5.303263624, 6.211353909, 7.091434645, 7.960150225, 8.839440182, 9.723126897, 10.64371617, 11.599264829, 12.608232147, 13.667459739, 14.800924404, 16, 16, 16, 16], degree=3))
            add(Edge.make_bspline(
                [(645.210173702, 302.488943669), (645.207875435, 302.594712847), (645.203404658, 302.800463732), (645.173262731, 303.098414423), (645.125883912, 303.37705648), (645.056078491, 303.635068654), (644.961199162, 303.87166228), (644.850351299, 304.08885312), (644.718148635, 304.285901043), (644.565327067, 304.461545017), (644.391160406, 304.61520201), (644.200147241, 304.752069041), (643.984372137, 304.863035546), (643.749840966, 304.956869518), (643.494111408, 305.026077464), (643.220054897, 305.079597446), (642.925280724, 305.107998108), (642.722054451, 305.112714621), (642.617550945, 305.115139958)],
                knots=[0, 0, 0, 0, 1.199075596, 2.332540261, 3.391767853, 4.400735171, 5.35628383, 6.276873103, 7.160559818, 8.039849775, 8.908565355, 9.788646091, 10.696736376, 11.652285035, 12.647667288, 13.695576005, 14.815013521, 16, 16, 16, 16], degree=3))
            Line((642.617550945, 305.115139958), (642.106487178, 305.115139958))
            Line((642.106487178, 305.115139958), (642.106487178, 299.862747379))
        make_face(mode=Mode.SUBTRACT)
    extrude(amount=BOSS_EXTRUDE4_DEPTH)

    # Sketch18 → Cut-Extrude10 (cut, two sides: drawn at the far end of the back side and taken through both)
    with BuildSketch(Plane.XY.offset(-CUT_EXTRUDE10_DEPTH_BACK)):
        with Locations((335, 405)):
            Rectangle(SKETCH18_W, SKETCH18_H)
    extrude(amount=CUT_EXTRUDE10_DEPTH + CUT_EXTRUDE10_DEPTH_BACK, mode=Mode.SUBTRACT)

    # Sketch19 → Cut-Extrude12 (cut, two sides: drawn at the far end of the back side and taken through both)
    with BuildSketch(Plane.XY.offset(-100).offset(-CUT_EXTRUDE12_DEPTH_BACK)):
        with Locations((450, 140)):
            Rectangle(SKETCH19_W, SKETCH19_H)
    extrude(amount=CUT_EXTRUDE12_DEPTH + CUT_EXTRUDE12_DEPTH_BACK, mode=Mode.SUBTRACT)

    # Sketch20 → Cut-Extrude14 (cut)
    with BuildSketch(Plane(origin=(0, 0, -120), x_dir=(-1, 0, 0), z_dir=(0, 0, -1))):
        with Locations((-16.540527053, 148.200486721)):
            Rectangle(SKETCH20_W, SKETCH20_H)
    extrude(amount=-CUT_EXTRUDE14_DEPTH, mode=Mode.SUBTRACT)

    # Sketch21 → Cut-Extrude15 (cut, two sides: drawn at the far end of the back side and taken through both)
    with BuildSketch(Plane.XY.offset(-100).offset(-CUT_EXTRUDE15_DEPTH_BACK)):
        with Locations((176, 210)):
            Rectangle(SKETCH21_W, SKETCH21_H)
    extrude(amount=CUT_EXTRUDE15_DEPTH + CUT_EXTRUDE15_DEPTH_BACK, mode=Mode.SUBTRACT)


with BuildPart() as body_2:
    # Sketch11 → Boss-Extrude3 (new body)
    with BuildSketch(Plane.XY.offset(-100)):
        with Locations((255, 60)):
            Rectangle(SKETCH11_W, SKETCH11_H)
    extrude(amount=BOSS_EXTRUDE3_DEPTH)


with BuildPart() as body_3:
    # Sketch11 → Boss-Extrude3 2 (new body)
    with BuildSketch(Plane.XY.offset(-100)):
        with Locations((415, 60)):
            Rectangle(SKETCH11_W, SKETCH11_H)
    extrude(amount=BOSS_EXTRUDE3_2_DEPTH)


with BuildPart() as body_4:
    # Sketch11 → Boss-Extrude3 3 (new body)
    with BuildSketch(Plane.XY.offset(-100)):
        Polygon((25, 198.45686471), (325, 145.558770497), (325, 122.01775856), (345, 122.01775856), (345, 145.558770497), (645, 198.45686471), align=None)
    extrude(amount=BOSS_EXTRUDE3_3_DEPTH)

    # Sketch15 → Cut-Extrude7 (cut)
    with BuildSketch(Plane(origin=(345, 0, 0), x_dir=(0, 0, -1), z_dir=(1, 0, 0))):
        with Locations((35, 133.231921672)):
            Rectangle(SKETCH15_W, SKETCH15_H)
        with Locations((85, 130.506698154)):
            Rectangle(SKETCH15_W, SKETCH15_H_2)
    extrude(amount=-CUT_EXTRUDE7_DEPTH, mode=Mode.SUBTRACT)

    # Shell1
    shell1_openings = [body_4.faces().sort_by_distance(p)[0] for p in [
        (335, 198.45686471, -61),
    ]]
    offset(amount=SHELL1_T, openings=shell1_openings, kind=Kind.INTERSECTION)

    # Sketch16 → Cut-Extrude8 (cut)
    with BuildSketch(Plane.XZ.offset(-122.01775856)):
        with Locations((335, -60)):
            Rectangle(SKETCH16_W, SKETCH16_H)
    extrude(amount=-CUT_EXTRUDE8_DEPTH, mode=Mode.SUBTRACT)


solid = part.part
